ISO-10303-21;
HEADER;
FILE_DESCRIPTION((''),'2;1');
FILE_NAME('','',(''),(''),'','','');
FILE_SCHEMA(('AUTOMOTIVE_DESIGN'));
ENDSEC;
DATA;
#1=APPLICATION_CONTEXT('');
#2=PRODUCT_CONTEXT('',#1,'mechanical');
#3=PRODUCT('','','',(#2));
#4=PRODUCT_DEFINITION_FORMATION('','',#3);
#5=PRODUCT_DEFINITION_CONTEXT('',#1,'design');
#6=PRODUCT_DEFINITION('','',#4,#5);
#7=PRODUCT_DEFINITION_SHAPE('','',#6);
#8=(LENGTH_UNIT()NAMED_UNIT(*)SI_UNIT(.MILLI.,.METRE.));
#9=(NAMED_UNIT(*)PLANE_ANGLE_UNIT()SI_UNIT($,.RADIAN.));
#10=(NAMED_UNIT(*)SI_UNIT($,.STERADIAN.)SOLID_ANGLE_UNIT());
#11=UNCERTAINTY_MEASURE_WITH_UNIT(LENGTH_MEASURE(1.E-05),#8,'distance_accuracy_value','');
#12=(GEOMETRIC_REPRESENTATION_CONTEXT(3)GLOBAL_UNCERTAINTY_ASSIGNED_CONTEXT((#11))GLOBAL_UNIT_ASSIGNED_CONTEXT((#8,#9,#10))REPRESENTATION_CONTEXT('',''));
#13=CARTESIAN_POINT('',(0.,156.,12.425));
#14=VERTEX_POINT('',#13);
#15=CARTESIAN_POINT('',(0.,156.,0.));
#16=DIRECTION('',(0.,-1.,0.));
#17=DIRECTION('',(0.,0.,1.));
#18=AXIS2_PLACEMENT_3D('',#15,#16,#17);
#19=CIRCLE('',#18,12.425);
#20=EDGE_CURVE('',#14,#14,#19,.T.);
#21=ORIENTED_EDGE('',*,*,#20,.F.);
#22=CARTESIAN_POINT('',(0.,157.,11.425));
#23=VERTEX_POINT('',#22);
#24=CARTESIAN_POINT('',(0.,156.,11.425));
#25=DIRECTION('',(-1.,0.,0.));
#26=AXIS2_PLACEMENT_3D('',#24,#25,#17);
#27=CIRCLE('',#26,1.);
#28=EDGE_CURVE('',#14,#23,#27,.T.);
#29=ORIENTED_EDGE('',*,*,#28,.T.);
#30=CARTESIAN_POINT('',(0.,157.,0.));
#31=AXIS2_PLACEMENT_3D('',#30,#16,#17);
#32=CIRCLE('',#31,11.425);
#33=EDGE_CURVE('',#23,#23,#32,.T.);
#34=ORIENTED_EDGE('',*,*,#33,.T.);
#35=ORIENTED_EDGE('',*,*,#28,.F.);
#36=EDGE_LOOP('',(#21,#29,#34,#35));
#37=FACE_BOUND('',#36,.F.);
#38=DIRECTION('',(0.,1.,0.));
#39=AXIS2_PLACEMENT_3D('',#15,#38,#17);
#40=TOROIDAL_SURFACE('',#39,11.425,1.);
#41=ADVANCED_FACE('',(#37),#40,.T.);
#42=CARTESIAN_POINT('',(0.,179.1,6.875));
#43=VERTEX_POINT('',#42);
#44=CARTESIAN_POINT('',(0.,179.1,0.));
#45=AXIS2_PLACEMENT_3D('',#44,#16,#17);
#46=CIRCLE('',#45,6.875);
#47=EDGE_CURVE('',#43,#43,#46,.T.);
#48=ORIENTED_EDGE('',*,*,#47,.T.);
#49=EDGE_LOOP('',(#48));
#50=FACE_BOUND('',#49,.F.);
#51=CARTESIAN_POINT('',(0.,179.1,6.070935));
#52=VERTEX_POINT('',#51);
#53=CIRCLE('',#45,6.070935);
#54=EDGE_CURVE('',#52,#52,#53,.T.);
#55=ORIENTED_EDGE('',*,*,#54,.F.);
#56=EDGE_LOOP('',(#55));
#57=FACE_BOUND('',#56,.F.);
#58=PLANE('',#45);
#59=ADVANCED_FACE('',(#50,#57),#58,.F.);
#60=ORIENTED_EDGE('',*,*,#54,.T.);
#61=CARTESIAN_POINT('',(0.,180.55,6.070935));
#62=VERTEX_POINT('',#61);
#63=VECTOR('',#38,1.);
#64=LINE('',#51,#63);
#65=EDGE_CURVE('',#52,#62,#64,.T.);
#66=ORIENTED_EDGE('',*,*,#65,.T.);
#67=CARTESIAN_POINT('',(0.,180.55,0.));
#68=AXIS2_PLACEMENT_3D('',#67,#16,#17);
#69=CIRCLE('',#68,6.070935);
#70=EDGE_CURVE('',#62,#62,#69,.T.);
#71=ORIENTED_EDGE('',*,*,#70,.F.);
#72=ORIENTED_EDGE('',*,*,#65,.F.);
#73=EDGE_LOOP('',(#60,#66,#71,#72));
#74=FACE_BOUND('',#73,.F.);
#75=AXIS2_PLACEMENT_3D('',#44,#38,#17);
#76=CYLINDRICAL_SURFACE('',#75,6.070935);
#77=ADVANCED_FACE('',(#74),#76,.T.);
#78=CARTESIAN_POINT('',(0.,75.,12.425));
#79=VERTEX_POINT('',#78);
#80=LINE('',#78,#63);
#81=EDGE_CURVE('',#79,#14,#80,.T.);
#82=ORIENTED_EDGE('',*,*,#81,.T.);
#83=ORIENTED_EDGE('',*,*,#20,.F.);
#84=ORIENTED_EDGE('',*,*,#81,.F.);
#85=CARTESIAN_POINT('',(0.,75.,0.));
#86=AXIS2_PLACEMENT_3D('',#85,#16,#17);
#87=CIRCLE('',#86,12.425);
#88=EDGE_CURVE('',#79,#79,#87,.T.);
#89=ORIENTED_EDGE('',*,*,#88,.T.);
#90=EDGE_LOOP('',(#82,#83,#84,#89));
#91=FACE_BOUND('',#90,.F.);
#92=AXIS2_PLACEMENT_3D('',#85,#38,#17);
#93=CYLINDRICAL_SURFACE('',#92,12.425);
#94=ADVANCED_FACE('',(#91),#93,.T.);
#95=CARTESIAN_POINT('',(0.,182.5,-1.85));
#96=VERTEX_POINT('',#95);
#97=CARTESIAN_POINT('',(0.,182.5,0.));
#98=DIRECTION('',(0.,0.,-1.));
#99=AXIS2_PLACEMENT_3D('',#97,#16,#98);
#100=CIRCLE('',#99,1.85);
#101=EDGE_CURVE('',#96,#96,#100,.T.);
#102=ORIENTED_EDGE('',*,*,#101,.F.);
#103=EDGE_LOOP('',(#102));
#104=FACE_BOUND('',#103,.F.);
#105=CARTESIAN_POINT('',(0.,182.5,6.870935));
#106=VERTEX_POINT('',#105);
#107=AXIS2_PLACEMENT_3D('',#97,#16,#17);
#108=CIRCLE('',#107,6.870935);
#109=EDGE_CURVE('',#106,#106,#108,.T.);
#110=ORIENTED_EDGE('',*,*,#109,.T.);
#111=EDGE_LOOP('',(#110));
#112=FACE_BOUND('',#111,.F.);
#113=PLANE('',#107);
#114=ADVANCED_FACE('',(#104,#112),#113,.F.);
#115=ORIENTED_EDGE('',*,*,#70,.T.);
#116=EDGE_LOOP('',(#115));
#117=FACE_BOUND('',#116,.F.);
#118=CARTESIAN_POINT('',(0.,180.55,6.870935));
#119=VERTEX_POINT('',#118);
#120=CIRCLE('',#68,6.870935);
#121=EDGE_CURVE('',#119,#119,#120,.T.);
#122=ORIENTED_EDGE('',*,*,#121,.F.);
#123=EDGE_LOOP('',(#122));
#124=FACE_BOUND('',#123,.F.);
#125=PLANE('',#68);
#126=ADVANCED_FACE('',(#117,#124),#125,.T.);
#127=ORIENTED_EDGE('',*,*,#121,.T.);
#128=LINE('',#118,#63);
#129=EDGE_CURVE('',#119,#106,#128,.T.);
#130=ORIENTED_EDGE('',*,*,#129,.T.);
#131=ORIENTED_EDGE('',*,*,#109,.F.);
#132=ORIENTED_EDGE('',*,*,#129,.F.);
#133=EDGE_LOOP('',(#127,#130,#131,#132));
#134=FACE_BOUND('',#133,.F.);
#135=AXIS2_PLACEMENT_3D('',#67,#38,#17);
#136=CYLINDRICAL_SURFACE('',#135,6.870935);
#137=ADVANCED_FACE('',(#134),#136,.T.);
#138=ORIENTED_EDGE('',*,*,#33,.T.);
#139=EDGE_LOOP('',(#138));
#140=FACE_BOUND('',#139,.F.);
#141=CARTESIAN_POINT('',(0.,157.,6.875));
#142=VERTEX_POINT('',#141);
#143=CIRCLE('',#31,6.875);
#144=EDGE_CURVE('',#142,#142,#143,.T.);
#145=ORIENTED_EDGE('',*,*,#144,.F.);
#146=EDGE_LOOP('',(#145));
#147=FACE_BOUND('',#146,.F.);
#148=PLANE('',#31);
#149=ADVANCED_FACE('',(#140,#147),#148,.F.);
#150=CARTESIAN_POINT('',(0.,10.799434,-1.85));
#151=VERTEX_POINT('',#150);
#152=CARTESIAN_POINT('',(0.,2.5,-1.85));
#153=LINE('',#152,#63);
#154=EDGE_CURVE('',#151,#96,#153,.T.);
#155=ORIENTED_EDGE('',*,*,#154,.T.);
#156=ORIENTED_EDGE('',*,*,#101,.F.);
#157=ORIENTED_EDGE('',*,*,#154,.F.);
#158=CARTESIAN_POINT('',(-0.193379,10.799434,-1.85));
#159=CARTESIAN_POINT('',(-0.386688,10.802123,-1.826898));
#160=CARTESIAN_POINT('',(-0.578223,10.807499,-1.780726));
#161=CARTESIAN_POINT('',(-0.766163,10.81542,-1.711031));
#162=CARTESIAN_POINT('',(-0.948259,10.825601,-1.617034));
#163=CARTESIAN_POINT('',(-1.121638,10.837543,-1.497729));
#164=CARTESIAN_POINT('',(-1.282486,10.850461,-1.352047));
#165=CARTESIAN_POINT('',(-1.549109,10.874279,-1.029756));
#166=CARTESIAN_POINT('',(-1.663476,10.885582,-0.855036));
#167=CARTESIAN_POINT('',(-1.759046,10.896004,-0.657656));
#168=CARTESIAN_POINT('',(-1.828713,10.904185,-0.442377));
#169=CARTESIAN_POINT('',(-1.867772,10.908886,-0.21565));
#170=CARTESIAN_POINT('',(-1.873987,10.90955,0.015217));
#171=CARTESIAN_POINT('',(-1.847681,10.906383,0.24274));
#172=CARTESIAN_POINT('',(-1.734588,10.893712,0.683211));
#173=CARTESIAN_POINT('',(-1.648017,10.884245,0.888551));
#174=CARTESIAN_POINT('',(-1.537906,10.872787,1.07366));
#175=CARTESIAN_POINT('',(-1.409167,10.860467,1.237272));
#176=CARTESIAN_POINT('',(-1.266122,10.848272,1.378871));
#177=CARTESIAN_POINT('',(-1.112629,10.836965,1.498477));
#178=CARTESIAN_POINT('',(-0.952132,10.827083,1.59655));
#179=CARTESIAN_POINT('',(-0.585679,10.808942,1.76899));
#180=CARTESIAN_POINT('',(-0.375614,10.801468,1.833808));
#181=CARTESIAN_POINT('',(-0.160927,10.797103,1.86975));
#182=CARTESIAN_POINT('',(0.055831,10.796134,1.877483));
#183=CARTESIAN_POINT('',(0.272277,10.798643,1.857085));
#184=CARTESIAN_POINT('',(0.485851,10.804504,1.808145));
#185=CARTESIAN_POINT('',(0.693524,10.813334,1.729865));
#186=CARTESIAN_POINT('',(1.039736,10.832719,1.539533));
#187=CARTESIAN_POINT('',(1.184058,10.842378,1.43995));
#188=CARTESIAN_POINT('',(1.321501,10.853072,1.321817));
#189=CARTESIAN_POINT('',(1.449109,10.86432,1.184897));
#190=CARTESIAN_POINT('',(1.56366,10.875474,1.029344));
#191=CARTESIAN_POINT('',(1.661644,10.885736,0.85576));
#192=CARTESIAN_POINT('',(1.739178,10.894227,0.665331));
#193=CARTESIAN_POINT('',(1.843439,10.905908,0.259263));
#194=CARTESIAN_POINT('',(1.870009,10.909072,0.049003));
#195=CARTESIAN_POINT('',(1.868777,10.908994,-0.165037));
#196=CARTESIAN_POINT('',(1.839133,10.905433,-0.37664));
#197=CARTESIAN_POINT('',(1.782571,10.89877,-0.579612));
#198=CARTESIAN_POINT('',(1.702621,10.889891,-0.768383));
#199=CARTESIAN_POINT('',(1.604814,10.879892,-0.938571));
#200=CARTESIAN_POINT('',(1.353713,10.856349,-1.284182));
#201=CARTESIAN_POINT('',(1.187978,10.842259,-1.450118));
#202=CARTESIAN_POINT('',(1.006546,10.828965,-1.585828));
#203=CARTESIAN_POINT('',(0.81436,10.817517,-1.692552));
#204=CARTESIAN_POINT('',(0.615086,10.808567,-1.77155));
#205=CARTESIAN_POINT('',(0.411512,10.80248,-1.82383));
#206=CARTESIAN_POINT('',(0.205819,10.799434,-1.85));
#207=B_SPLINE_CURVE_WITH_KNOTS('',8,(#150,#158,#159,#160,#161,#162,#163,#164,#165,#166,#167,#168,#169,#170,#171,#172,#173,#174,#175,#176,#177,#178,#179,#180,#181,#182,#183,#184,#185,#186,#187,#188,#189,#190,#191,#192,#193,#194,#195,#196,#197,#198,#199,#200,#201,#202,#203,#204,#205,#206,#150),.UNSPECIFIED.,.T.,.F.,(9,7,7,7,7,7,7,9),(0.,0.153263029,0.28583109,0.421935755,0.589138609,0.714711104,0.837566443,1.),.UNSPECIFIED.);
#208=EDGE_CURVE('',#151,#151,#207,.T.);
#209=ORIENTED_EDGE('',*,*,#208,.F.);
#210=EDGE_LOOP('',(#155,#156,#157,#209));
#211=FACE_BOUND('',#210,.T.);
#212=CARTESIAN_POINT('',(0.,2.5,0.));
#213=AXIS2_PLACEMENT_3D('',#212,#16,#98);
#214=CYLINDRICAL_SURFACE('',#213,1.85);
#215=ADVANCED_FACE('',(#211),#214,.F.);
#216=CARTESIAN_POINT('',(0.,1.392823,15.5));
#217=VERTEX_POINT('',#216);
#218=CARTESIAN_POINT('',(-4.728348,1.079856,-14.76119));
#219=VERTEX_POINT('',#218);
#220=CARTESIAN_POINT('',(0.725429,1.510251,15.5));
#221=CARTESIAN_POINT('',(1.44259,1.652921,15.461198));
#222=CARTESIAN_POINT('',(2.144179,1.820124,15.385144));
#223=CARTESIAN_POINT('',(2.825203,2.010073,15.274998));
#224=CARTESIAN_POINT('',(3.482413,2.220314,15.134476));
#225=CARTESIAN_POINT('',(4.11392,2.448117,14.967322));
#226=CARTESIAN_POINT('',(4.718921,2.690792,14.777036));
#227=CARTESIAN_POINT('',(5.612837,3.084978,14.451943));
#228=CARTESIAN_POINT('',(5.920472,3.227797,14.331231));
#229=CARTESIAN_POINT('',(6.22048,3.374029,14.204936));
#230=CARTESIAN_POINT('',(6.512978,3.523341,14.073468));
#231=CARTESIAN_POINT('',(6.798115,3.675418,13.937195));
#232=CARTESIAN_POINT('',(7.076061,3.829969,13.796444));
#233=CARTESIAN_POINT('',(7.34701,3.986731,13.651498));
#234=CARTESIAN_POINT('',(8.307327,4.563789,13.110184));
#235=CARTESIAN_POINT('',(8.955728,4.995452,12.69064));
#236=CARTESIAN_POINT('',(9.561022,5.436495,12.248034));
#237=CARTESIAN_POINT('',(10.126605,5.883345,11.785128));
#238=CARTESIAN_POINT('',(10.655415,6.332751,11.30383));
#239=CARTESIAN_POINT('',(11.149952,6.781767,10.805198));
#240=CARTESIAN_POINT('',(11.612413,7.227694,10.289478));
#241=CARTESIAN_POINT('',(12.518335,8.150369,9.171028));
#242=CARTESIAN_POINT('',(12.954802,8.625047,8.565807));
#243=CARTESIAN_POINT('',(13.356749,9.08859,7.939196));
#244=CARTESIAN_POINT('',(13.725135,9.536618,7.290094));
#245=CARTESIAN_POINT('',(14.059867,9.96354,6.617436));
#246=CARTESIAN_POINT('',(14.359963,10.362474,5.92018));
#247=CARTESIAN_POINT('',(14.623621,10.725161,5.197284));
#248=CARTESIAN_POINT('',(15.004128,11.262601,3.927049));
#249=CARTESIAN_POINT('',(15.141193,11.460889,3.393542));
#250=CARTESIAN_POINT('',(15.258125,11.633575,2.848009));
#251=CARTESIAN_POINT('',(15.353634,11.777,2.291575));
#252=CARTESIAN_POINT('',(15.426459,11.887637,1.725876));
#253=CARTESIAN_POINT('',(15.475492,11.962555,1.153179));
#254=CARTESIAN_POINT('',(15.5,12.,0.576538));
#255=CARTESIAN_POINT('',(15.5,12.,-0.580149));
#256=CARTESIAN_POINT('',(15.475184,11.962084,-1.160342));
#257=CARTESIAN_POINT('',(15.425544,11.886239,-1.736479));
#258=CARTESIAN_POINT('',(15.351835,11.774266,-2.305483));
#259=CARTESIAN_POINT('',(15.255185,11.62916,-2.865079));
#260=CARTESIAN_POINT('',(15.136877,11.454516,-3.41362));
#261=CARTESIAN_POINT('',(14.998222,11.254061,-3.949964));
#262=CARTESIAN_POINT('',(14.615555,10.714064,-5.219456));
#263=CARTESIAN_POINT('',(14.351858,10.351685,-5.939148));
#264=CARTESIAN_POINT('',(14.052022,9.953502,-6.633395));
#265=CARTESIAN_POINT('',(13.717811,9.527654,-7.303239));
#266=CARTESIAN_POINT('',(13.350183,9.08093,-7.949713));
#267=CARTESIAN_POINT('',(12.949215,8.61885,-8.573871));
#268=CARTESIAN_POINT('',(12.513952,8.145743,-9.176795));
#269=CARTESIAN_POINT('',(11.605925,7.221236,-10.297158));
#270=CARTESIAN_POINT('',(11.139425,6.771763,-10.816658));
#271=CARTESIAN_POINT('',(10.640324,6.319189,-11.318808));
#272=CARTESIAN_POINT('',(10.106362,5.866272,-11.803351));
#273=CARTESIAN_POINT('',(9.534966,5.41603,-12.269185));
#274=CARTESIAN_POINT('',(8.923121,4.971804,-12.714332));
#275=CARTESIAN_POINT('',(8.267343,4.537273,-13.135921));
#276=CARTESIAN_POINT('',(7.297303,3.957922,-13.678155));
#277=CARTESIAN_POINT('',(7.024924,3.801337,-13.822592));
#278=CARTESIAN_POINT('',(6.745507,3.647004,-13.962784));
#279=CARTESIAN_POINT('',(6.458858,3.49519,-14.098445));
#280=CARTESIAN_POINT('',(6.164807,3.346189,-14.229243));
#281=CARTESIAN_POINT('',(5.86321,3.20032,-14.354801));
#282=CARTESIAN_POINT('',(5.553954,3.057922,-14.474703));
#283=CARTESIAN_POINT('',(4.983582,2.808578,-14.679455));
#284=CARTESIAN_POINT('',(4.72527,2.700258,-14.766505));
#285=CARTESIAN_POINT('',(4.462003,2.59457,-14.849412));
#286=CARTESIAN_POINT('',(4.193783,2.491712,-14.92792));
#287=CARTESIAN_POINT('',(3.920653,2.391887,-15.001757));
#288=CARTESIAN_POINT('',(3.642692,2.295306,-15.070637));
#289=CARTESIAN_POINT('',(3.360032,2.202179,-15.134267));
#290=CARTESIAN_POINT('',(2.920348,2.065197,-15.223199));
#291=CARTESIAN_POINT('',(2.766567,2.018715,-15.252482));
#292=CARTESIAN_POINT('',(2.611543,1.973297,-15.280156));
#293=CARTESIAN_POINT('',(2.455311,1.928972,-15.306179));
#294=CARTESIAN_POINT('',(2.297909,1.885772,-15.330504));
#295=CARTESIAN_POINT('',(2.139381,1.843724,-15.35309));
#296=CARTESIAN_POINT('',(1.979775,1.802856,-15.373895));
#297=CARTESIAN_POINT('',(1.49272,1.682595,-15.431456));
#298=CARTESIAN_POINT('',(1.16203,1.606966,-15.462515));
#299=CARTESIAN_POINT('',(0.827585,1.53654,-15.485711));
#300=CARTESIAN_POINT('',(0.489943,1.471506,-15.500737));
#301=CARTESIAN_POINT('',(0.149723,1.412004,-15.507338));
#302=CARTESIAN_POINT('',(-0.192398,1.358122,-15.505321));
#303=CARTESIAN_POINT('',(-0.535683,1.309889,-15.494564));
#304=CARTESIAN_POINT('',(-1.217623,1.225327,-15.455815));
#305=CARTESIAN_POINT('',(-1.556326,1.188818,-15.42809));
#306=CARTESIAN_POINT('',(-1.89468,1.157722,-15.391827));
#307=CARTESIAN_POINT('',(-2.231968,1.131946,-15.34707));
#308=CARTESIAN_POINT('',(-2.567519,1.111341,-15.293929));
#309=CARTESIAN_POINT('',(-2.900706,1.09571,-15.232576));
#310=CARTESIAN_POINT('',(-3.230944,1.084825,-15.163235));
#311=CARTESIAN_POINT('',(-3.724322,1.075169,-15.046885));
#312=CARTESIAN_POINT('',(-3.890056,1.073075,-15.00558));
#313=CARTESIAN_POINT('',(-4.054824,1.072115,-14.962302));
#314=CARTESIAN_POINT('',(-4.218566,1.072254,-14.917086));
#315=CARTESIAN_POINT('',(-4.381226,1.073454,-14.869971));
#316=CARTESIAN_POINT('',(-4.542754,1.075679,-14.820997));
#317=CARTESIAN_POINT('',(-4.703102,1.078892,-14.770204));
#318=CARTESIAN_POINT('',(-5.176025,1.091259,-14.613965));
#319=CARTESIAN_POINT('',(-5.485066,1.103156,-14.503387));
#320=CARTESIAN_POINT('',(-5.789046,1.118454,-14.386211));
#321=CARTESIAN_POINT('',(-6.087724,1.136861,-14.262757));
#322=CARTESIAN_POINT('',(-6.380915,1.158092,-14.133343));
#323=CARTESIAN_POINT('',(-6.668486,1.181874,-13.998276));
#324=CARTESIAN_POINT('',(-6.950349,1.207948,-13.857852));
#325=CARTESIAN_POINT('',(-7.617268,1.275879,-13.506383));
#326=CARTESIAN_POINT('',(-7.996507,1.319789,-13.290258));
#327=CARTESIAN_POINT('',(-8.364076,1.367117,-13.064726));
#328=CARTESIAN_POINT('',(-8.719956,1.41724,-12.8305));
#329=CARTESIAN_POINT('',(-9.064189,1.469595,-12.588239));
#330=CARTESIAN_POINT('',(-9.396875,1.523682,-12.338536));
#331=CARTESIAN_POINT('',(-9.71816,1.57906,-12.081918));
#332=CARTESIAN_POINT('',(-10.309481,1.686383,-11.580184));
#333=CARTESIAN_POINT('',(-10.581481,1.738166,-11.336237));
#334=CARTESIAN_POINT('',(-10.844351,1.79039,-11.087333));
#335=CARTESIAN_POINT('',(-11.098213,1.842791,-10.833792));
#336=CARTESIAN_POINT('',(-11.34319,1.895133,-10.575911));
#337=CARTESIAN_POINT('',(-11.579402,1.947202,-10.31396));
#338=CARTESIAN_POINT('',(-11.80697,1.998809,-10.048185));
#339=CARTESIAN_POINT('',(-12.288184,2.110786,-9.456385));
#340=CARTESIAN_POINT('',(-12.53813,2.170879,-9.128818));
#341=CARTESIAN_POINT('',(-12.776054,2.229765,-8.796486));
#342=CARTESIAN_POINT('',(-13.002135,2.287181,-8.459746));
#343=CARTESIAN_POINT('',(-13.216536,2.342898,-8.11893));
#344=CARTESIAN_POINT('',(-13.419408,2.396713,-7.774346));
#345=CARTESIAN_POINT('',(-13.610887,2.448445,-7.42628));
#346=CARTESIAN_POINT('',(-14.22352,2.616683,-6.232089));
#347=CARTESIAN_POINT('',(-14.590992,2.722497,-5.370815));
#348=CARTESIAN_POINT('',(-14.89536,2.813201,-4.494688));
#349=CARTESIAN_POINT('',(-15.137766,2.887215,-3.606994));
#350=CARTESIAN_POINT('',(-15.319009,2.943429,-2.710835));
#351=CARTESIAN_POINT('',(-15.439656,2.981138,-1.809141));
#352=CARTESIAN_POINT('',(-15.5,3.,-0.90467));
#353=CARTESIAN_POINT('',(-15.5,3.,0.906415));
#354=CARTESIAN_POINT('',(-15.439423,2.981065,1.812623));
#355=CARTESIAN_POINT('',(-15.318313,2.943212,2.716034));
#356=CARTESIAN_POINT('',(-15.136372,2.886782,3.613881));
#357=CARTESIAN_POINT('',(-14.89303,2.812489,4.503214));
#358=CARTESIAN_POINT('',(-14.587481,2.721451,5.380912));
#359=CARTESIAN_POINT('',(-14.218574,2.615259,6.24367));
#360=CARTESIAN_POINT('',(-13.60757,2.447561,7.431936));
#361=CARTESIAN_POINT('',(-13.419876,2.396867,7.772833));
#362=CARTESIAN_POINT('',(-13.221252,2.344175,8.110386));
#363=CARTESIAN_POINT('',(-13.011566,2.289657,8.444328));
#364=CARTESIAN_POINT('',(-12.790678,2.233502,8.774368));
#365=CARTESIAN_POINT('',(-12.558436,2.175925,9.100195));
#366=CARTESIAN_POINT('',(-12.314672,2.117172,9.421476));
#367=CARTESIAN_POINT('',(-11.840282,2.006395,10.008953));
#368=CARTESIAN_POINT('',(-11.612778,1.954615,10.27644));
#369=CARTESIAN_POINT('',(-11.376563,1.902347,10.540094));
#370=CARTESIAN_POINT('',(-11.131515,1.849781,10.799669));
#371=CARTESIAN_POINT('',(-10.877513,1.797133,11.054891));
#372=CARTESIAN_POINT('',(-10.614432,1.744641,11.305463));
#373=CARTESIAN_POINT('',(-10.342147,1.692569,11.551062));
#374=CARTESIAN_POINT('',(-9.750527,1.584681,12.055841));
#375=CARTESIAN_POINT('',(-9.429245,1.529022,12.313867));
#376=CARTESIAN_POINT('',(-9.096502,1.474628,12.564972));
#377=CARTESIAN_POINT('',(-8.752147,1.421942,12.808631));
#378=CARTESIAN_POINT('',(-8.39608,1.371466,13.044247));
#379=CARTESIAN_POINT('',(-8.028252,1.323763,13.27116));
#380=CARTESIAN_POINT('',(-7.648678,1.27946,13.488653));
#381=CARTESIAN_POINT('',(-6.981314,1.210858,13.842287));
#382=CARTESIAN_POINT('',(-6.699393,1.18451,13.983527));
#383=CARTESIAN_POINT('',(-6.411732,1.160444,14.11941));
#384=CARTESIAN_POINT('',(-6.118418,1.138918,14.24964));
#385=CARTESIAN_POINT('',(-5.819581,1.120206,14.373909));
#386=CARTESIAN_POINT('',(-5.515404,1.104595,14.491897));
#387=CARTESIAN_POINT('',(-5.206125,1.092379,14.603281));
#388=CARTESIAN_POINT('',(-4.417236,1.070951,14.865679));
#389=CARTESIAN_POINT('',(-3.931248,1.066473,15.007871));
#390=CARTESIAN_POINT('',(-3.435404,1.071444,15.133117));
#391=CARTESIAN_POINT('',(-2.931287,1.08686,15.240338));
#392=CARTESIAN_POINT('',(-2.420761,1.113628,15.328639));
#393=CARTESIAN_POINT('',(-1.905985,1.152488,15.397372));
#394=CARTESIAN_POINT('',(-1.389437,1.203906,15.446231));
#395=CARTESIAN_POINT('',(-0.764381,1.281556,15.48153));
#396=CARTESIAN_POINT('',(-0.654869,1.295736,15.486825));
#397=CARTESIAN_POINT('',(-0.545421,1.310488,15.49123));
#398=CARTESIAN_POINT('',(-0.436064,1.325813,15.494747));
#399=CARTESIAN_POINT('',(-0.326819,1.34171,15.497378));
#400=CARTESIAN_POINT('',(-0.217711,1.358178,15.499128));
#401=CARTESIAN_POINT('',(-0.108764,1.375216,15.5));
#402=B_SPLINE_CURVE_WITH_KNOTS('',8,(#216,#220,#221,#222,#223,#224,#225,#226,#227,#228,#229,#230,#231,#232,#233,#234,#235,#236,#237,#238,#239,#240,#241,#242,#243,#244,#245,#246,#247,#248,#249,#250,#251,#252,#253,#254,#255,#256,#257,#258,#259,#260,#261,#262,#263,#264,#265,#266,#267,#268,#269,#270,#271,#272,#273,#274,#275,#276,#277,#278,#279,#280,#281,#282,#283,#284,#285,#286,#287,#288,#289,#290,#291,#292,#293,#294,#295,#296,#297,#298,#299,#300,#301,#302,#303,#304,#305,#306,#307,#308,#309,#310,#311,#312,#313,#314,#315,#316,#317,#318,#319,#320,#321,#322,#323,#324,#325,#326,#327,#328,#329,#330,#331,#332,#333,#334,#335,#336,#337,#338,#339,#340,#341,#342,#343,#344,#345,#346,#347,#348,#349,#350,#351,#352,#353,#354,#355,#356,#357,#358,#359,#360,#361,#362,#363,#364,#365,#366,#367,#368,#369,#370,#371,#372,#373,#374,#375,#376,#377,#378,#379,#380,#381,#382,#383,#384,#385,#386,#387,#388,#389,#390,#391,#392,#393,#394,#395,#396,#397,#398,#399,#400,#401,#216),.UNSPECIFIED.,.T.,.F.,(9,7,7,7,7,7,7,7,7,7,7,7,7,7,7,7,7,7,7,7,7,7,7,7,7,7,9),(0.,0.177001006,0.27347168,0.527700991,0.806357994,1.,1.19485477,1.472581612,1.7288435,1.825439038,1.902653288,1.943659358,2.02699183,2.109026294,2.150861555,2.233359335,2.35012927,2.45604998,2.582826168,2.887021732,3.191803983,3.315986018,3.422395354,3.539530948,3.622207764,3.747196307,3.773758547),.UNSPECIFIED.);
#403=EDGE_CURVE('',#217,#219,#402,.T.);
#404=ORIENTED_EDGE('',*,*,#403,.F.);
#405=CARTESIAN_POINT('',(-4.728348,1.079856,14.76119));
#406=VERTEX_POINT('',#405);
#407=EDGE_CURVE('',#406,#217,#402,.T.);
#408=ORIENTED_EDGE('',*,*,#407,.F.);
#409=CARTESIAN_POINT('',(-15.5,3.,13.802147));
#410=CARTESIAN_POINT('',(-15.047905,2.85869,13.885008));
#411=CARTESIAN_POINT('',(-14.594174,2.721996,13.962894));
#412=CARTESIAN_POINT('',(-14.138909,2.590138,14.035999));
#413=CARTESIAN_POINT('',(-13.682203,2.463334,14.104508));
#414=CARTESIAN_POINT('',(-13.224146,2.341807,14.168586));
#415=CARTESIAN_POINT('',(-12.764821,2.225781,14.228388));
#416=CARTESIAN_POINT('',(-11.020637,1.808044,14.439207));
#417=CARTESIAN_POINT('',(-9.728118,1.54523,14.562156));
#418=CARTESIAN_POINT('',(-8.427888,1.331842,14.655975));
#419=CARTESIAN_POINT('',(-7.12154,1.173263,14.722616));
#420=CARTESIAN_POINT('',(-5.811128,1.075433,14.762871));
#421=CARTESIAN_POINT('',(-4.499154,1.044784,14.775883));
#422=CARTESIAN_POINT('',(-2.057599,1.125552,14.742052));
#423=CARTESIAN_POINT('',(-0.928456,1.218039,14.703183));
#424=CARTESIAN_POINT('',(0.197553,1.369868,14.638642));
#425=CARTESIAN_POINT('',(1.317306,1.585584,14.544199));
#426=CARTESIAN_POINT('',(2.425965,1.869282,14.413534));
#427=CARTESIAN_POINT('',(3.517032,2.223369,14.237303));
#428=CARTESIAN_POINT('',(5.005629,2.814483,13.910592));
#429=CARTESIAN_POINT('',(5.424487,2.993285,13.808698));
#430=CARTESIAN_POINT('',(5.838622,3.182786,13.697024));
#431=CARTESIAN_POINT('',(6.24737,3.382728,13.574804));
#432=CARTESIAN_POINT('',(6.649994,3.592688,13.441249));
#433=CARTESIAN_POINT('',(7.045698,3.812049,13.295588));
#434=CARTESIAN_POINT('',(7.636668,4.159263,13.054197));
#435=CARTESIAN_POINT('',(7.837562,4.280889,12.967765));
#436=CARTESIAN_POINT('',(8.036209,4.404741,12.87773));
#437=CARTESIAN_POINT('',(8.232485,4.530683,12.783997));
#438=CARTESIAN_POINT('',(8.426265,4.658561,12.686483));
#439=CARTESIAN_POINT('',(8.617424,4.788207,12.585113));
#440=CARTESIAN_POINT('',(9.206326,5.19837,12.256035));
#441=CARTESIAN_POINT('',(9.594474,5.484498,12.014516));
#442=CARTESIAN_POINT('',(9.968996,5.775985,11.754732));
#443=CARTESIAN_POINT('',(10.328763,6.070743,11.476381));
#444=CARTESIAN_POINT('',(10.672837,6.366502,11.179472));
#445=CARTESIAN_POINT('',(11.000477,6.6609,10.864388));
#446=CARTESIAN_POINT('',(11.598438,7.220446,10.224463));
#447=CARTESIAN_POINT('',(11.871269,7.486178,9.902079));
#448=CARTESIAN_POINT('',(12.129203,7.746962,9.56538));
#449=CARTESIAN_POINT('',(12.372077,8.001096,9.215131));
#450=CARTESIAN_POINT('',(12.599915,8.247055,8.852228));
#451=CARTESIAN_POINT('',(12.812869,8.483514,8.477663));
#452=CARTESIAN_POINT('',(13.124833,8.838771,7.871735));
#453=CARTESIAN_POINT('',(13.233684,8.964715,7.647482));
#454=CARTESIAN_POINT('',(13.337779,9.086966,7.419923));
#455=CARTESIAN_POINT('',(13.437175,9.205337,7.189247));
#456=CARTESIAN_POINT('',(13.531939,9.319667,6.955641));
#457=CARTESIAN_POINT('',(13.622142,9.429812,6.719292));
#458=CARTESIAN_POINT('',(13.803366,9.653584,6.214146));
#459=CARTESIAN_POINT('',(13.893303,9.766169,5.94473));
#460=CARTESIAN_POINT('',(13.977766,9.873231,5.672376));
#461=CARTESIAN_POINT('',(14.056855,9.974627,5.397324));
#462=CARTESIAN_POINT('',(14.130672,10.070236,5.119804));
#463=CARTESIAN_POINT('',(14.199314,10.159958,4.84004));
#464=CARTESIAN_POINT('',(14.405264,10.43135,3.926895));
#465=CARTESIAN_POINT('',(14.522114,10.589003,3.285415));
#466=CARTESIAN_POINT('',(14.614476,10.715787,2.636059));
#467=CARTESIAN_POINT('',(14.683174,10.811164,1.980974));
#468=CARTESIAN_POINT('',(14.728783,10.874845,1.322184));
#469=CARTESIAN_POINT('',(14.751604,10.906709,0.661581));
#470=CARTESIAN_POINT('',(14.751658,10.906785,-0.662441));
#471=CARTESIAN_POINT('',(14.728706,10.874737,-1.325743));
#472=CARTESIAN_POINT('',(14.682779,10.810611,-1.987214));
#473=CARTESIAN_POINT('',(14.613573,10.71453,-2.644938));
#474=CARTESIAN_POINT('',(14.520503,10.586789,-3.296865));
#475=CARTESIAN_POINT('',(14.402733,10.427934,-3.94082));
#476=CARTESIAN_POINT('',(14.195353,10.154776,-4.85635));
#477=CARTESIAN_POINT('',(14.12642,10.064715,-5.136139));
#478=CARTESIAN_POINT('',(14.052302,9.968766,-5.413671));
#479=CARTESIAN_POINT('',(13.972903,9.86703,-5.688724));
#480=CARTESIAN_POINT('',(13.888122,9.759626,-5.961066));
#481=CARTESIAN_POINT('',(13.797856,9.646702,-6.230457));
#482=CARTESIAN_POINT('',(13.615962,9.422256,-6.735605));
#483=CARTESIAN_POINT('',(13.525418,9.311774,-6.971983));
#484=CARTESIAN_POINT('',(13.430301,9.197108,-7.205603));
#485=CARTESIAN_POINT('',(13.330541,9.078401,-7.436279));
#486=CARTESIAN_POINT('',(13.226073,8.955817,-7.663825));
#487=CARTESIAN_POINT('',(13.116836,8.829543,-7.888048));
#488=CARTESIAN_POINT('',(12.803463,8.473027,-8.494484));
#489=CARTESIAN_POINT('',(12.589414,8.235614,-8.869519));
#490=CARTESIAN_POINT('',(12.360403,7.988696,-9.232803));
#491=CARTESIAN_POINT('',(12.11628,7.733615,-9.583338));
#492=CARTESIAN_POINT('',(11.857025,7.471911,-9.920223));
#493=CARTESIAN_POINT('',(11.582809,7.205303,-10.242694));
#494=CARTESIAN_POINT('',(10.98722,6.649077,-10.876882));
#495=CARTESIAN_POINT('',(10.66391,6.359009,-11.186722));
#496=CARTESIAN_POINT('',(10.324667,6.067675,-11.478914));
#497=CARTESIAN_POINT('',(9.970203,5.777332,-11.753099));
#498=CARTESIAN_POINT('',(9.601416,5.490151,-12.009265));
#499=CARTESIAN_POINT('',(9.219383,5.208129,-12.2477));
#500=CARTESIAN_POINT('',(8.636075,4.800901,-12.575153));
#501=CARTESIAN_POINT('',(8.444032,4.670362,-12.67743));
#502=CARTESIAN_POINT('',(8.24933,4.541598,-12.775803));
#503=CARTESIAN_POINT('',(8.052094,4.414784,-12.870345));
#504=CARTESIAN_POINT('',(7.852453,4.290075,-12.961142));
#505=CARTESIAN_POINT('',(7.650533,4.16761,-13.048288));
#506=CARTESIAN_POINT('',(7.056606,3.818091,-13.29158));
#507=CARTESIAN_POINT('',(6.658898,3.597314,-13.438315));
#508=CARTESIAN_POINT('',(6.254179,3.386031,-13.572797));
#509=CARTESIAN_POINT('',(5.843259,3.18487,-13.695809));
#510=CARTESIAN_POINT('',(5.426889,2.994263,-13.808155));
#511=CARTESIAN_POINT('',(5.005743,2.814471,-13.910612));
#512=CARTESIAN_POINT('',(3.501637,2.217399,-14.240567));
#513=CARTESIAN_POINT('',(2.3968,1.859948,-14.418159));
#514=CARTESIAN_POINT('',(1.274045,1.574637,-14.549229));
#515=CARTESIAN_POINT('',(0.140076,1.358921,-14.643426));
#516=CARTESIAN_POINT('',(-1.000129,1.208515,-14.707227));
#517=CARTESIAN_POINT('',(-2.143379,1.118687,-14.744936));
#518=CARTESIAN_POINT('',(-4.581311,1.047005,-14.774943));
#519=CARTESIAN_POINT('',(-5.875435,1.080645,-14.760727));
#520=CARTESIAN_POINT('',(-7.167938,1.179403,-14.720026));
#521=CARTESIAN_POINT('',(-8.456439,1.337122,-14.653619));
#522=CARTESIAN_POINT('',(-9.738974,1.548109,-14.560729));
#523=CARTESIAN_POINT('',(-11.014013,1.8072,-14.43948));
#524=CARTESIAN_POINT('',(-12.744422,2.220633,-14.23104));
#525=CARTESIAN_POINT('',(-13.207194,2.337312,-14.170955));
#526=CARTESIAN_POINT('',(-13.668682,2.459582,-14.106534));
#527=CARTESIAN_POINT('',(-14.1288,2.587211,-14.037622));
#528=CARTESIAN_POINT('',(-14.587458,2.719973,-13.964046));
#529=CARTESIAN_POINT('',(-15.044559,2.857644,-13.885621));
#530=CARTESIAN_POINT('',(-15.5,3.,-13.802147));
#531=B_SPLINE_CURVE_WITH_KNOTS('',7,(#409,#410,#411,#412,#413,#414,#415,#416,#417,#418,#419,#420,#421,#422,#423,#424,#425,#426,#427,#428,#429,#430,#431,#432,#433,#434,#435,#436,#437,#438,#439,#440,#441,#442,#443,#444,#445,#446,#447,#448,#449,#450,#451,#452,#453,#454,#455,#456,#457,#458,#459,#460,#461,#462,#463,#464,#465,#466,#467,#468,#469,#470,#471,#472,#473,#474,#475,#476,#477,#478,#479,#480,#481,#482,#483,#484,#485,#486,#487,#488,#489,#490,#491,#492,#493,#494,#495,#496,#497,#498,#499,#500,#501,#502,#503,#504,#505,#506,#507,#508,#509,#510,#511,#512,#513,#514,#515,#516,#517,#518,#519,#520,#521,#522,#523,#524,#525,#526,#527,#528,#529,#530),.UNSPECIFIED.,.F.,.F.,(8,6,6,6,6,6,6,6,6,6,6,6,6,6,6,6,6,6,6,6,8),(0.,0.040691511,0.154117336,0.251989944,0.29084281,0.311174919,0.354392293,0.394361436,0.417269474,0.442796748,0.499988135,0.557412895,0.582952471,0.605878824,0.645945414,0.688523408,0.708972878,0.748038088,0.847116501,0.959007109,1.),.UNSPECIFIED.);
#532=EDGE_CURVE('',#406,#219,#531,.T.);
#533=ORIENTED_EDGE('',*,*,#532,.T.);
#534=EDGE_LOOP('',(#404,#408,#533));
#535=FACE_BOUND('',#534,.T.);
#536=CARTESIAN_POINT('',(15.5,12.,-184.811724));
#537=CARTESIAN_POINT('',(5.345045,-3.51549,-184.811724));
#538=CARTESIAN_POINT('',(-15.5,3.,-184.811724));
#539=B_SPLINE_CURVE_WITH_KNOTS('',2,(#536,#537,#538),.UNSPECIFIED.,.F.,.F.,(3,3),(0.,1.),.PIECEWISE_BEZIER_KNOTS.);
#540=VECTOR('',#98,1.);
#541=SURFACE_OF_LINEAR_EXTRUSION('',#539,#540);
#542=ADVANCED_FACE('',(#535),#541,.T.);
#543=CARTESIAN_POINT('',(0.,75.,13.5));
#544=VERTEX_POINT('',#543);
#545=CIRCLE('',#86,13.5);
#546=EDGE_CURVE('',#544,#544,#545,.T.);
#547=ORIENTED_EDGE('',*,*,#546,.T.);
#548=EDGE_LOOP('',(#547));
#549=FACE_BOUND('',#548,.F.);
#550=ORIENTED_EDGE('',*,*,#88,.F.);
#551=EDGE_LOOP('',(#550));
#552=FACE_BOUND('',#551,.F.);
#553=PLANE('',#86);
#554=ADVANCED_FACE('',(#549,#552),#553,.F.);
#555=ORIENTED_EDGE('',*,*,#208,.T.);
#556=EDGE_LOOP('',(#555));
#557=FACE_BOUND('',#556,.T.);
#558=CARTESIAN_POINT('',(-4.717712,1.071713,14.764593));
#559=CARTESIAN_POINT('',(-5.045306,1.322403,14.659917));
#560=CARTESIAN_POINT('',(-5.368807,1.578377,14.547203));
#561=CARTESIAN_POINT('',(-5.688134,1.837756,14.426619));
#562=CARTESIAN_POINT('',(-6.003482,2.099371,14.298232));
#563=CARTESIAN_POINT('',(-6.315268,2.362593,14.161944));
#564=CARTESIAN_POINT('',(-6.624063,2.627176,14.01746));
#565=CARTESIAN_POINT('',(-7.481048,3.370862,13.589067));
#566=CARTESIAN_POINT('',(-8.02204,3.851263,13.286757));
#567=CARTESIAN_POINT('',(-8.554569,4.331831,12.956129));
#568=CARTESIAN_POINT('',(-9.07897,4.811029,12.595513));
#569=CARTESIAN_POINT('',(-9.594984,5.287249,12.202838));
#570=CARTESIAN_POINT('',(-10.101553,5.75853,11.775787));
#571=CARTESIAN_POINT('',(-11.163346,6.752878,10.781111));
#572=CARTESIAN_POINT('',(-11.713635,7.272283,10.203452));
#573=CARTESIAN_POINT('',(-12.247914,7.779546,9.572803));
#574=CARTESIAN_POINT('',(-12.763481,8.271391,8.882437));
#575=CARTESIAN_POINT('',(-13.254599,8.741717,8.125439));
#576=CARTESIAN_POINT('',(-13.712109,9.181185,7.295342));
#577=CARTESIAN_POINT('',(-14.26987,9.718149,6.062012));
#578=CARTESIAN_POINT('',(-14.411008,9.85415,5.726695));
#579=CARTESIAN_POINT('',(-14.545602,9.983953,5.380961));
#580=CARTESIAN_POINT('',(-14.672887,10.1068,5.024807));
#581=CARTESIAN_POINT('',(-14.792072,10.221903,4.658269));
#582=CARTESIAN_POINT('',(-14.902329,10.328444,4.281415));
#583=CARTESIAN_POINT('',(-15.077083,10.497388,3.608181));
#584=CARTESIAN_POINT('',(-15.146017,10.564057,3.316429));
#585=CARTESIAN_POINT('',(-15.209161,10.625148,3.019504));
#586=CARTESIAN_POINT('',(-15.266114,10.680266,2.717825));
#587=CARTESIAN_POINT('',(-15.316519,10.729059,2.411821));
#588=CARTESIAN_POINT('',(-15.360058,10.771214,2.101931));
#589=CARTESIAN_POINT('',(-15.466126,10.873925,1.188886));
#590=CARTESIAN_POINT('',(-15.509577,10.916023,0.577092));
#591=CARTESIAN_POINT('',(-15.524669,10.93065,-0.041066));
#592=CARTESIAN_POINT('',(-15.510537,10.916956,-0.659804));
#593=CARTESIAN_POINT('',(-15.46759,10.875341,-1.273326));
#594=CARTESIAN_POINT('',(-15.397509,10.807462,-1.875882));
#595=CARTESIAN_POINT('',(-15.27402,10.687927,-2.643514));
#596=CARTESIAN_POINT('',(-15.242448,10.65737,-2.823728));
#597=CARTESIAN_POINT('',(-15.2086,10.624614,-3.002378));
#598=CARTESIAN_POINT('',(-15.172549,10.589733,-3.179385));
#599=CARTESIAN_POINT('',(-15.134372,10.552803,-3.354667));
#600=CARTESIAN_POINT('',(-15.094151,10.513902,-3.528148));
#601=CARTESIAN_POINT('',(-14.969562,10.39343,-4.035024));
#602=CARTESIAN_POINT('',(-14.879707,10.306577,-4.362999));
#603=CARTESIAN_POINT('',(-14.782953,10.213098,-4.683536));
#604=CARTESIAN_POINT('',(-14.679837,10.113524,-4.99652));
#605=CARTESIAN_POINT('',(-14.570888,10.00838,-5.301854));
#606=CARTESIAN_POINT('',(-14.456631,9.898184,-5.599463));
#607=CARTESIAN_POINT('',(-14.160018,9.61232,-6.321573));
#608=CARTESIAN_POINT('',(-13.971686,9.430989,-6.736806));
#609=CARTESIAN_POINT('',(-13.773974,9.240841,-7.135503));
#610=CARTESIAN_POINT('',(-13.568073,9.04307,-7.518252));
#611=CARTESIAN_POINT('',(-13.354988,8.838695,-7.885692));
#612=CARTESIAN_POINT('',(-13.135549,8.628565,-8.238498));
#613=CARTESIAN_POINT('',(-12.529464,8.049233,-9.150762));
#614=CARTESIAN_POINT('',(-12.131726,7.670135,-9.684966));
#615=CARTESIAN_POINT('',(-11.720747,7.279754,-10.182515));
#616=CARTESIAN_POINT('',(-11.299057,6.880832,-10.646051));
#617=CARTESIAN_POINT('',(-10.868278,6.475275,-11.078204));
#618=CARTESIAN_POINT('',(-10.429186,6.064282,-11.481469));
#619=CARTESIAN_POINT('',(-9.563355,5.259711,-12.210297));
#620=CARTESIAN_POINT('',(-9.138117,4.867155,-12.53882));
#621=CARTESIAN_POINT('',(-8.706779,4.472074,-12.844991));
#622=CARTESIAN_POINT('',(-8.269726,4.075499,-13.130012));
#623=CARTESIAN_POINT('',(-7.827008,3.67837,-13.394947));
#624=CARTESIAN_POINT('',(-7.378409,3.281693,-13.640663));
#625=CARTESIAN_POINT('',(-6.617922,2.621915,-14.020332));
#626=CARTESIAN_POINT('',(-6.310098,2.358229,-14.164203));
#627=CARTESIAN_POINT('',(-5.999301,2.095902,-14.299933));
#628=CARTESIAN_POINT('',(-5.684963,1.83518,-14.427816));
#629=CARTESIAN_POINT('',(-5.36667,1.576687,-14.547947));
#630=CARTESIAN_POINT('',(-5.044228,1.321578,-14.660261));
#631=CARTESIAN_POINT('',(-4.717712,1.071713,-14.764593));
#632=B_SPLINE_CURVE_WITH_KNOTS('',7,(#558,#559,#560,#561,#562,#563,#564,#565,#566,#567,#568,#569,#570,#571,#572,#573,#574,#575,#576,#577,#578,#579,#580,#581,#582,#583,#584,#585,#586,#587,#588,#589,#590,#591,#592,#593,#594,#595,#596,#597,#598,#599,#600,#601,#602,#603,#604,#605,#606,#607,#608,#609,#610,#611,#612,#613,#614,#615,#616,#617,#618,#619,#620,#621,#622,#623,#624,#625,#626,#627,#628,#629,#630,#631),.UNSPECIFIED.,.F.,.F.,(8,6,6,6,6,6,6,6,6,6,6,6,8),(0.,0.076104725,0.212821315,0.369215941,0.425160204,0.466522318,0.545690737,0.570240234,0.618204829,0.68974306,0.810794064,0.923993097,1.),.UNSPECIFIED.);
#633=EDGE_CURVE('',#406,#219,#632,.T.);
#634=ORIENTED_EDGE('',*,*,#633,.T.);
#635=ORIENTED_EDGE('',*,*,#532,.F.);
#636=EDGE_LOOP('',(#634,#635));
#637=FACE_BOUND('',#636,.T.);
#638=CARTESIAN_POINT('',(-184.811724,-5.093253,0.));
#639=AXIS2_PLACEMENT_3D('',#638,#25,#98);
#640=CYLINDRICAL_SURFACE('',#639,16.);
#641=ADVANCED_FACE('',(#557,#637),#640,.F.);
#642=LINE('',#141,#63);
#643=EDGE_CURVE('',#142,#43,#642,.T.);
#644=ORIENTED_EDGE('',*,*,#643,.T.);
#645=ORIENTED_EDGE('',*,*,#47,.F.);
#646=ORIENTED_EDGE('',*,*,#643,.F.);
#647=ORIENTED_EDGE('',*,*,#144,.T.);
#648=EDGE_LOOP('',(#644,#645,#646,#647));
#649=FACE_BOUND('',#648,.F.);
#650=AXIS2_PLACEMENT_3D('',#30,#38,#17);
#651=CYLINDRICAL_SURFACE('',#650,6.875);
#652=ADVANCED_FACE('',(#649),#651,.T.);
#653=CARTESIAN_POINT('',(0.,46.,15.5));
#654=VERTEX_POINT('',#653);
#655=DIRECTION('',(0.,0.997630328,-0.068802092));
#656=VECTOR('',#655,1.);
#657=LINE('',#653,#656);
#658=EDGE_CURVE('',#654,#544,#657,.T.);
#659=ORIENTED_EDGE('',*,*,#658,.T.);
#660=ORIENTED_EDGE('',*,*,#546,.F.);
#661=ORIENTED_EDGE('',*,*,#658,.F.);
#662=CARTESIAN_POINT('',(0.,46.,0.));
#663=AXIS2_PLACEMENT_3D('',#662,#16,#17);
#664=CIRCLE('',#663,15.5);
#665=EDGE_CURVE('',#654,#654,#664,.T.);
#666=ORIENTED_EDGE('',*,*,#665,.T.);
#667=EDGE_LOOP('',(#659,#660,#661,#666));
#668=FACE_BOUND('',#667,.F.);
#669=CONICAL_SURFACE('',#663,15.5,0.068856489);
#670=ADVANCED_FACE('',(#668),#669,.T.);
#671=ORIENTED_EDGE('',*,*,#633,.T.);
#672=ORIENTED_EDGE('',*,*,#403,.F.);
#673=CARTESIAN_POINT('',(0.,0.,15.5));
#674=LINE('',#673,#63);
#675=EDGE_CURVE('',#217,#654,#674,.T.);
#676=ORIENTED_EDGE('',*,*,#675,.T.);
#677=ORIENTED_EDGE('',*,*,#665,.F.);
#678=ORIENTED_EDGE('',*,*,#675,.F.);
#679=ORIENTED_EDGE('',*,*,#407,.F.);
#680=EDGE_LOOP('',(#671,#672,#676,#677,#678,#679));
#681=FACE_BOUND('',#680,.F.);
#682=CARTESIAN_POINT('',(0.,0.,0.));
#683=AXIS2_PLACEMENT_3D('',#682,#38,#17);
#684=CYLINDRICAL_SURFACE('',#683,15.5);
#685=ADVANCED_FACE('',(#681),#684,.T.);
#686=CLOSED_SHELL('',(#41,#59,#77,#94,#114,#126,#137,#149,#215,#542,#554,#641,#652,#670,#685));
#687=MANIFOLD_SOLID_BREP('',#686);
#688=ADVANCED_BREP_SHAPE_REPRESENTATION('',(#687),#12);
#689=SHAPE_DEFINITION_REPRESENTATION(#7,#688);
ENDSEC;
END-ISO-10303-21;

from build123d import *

# Parameters (mm, degrees)
FILLET1_R               = 1
CUT_EXTRUDE1_DEPTH      = 184.811724327
CUT_EXTRUDE1_DEPTH_BACK = 184.811724327
CUT_EXTRUDE2_DEPTH      = 183.746332302
CUT_EXTRUDE2_DEPTH_BACK = 180
SKETCH3_R               = 1.85
CUT_EXTRUDE3_DEPTH      = 184.811724344
CUT_EXTRUDE3_DEPTH_BACK = 184.811724344
SKETCH4_R               = 16


with BuildPart() as part:
    # Sketch1 → Revolve2 (revolve)
    with BuildSketch(Plane.XY):
        Polygon((0, 0), (15.5, 0), (15.5, 46), (13.5, 75), (12.425, 75), (12.425, 157), (6.875, 157), (6.875, 179.1), (6.070935316, 179.1), (6.070935316, 180.55), (6.870935316, 180.55), (6.870935316, 182.5), (0, 182.5), align=None)
    revolve(axis=Axis((0, 263.878189578, 0), (0, -1, 0)))

    # Fillet1
    fillet1_edges = [part.edges().sort_by_distance(p)[0] for p in [
        (-12.425, 157, 0),
    ]]
    fillet(fillet1_edges, radius=FILLET1_R)

    # Sketch2 → Cut-Extrude1 (cut, two sides: drawn at the far end of the back side and taken through both)
    with BuildSketch(Plane.XY.offset(-CUT_EXTRUDE1_DEPTH_BACK)):
        with BuildLine():
            Line((-15.5, 3), (-19.676433944, 0))
            Line((-19.676433944, 0), (9.520360954, -11.635719705))
            Line((9.520360954, -11.635719705), (20.15271979, -0.609569802))
            Line((20.15271979, -0.609569802), (15.5, 12))
            add(Edge.make_bspline(
                [(15.5, 12), (5.345045333, -3.515489974), (-15.5, 3)],
                knots=[0, 0, 0, 1, 1, 1], degree=2))
        make_face()
    extrude(amount=CUT_EXTRUDE1_DEPTH + CUT_EXTRUDE1_DEPTH_BACK, mode=Mode.SUBTRACT)

    # Sketch3 → Cut-Extrude2 (cut, two sides: drawn at the far end of the back side and taken through both)
    with BuildSketch(Plane(origin=(0, 182.5, 0), x_dir=(1, 0, 0), z_dir=(0, 1, 0)).offset(-CUT_EXTRUDE2_DEPTH_BACK)):
        Circle(SKETCH3_R)
    extrude(amount=CUT_EXTRUDE2_DEPTH + CUT_EXTRUDE2_DEPTH_BACK, mode=Mode.SUBTRACT)

    # Sketch4 → Cut-Extrude3 (cut, two sides: drawn at the far end of the back side and taken through both)
    with BuildSketch(Plane(origin=(0, 0, 0), x_dir=(0, 0, -1), z_dir=(1, 0, 0)).offset(-CUT_EXTRUDE3_DEPTH_BACK)):
        with Locations((0, -5.093252724)):
            Circle(SKETCH4_R)
    extrude(amount=CUT_EXTRUDE3_DEPTH + CUT_EXTRUDE3_DEPTH_BACK, mode=Mode.SUBTRACT)


solid = part.part
